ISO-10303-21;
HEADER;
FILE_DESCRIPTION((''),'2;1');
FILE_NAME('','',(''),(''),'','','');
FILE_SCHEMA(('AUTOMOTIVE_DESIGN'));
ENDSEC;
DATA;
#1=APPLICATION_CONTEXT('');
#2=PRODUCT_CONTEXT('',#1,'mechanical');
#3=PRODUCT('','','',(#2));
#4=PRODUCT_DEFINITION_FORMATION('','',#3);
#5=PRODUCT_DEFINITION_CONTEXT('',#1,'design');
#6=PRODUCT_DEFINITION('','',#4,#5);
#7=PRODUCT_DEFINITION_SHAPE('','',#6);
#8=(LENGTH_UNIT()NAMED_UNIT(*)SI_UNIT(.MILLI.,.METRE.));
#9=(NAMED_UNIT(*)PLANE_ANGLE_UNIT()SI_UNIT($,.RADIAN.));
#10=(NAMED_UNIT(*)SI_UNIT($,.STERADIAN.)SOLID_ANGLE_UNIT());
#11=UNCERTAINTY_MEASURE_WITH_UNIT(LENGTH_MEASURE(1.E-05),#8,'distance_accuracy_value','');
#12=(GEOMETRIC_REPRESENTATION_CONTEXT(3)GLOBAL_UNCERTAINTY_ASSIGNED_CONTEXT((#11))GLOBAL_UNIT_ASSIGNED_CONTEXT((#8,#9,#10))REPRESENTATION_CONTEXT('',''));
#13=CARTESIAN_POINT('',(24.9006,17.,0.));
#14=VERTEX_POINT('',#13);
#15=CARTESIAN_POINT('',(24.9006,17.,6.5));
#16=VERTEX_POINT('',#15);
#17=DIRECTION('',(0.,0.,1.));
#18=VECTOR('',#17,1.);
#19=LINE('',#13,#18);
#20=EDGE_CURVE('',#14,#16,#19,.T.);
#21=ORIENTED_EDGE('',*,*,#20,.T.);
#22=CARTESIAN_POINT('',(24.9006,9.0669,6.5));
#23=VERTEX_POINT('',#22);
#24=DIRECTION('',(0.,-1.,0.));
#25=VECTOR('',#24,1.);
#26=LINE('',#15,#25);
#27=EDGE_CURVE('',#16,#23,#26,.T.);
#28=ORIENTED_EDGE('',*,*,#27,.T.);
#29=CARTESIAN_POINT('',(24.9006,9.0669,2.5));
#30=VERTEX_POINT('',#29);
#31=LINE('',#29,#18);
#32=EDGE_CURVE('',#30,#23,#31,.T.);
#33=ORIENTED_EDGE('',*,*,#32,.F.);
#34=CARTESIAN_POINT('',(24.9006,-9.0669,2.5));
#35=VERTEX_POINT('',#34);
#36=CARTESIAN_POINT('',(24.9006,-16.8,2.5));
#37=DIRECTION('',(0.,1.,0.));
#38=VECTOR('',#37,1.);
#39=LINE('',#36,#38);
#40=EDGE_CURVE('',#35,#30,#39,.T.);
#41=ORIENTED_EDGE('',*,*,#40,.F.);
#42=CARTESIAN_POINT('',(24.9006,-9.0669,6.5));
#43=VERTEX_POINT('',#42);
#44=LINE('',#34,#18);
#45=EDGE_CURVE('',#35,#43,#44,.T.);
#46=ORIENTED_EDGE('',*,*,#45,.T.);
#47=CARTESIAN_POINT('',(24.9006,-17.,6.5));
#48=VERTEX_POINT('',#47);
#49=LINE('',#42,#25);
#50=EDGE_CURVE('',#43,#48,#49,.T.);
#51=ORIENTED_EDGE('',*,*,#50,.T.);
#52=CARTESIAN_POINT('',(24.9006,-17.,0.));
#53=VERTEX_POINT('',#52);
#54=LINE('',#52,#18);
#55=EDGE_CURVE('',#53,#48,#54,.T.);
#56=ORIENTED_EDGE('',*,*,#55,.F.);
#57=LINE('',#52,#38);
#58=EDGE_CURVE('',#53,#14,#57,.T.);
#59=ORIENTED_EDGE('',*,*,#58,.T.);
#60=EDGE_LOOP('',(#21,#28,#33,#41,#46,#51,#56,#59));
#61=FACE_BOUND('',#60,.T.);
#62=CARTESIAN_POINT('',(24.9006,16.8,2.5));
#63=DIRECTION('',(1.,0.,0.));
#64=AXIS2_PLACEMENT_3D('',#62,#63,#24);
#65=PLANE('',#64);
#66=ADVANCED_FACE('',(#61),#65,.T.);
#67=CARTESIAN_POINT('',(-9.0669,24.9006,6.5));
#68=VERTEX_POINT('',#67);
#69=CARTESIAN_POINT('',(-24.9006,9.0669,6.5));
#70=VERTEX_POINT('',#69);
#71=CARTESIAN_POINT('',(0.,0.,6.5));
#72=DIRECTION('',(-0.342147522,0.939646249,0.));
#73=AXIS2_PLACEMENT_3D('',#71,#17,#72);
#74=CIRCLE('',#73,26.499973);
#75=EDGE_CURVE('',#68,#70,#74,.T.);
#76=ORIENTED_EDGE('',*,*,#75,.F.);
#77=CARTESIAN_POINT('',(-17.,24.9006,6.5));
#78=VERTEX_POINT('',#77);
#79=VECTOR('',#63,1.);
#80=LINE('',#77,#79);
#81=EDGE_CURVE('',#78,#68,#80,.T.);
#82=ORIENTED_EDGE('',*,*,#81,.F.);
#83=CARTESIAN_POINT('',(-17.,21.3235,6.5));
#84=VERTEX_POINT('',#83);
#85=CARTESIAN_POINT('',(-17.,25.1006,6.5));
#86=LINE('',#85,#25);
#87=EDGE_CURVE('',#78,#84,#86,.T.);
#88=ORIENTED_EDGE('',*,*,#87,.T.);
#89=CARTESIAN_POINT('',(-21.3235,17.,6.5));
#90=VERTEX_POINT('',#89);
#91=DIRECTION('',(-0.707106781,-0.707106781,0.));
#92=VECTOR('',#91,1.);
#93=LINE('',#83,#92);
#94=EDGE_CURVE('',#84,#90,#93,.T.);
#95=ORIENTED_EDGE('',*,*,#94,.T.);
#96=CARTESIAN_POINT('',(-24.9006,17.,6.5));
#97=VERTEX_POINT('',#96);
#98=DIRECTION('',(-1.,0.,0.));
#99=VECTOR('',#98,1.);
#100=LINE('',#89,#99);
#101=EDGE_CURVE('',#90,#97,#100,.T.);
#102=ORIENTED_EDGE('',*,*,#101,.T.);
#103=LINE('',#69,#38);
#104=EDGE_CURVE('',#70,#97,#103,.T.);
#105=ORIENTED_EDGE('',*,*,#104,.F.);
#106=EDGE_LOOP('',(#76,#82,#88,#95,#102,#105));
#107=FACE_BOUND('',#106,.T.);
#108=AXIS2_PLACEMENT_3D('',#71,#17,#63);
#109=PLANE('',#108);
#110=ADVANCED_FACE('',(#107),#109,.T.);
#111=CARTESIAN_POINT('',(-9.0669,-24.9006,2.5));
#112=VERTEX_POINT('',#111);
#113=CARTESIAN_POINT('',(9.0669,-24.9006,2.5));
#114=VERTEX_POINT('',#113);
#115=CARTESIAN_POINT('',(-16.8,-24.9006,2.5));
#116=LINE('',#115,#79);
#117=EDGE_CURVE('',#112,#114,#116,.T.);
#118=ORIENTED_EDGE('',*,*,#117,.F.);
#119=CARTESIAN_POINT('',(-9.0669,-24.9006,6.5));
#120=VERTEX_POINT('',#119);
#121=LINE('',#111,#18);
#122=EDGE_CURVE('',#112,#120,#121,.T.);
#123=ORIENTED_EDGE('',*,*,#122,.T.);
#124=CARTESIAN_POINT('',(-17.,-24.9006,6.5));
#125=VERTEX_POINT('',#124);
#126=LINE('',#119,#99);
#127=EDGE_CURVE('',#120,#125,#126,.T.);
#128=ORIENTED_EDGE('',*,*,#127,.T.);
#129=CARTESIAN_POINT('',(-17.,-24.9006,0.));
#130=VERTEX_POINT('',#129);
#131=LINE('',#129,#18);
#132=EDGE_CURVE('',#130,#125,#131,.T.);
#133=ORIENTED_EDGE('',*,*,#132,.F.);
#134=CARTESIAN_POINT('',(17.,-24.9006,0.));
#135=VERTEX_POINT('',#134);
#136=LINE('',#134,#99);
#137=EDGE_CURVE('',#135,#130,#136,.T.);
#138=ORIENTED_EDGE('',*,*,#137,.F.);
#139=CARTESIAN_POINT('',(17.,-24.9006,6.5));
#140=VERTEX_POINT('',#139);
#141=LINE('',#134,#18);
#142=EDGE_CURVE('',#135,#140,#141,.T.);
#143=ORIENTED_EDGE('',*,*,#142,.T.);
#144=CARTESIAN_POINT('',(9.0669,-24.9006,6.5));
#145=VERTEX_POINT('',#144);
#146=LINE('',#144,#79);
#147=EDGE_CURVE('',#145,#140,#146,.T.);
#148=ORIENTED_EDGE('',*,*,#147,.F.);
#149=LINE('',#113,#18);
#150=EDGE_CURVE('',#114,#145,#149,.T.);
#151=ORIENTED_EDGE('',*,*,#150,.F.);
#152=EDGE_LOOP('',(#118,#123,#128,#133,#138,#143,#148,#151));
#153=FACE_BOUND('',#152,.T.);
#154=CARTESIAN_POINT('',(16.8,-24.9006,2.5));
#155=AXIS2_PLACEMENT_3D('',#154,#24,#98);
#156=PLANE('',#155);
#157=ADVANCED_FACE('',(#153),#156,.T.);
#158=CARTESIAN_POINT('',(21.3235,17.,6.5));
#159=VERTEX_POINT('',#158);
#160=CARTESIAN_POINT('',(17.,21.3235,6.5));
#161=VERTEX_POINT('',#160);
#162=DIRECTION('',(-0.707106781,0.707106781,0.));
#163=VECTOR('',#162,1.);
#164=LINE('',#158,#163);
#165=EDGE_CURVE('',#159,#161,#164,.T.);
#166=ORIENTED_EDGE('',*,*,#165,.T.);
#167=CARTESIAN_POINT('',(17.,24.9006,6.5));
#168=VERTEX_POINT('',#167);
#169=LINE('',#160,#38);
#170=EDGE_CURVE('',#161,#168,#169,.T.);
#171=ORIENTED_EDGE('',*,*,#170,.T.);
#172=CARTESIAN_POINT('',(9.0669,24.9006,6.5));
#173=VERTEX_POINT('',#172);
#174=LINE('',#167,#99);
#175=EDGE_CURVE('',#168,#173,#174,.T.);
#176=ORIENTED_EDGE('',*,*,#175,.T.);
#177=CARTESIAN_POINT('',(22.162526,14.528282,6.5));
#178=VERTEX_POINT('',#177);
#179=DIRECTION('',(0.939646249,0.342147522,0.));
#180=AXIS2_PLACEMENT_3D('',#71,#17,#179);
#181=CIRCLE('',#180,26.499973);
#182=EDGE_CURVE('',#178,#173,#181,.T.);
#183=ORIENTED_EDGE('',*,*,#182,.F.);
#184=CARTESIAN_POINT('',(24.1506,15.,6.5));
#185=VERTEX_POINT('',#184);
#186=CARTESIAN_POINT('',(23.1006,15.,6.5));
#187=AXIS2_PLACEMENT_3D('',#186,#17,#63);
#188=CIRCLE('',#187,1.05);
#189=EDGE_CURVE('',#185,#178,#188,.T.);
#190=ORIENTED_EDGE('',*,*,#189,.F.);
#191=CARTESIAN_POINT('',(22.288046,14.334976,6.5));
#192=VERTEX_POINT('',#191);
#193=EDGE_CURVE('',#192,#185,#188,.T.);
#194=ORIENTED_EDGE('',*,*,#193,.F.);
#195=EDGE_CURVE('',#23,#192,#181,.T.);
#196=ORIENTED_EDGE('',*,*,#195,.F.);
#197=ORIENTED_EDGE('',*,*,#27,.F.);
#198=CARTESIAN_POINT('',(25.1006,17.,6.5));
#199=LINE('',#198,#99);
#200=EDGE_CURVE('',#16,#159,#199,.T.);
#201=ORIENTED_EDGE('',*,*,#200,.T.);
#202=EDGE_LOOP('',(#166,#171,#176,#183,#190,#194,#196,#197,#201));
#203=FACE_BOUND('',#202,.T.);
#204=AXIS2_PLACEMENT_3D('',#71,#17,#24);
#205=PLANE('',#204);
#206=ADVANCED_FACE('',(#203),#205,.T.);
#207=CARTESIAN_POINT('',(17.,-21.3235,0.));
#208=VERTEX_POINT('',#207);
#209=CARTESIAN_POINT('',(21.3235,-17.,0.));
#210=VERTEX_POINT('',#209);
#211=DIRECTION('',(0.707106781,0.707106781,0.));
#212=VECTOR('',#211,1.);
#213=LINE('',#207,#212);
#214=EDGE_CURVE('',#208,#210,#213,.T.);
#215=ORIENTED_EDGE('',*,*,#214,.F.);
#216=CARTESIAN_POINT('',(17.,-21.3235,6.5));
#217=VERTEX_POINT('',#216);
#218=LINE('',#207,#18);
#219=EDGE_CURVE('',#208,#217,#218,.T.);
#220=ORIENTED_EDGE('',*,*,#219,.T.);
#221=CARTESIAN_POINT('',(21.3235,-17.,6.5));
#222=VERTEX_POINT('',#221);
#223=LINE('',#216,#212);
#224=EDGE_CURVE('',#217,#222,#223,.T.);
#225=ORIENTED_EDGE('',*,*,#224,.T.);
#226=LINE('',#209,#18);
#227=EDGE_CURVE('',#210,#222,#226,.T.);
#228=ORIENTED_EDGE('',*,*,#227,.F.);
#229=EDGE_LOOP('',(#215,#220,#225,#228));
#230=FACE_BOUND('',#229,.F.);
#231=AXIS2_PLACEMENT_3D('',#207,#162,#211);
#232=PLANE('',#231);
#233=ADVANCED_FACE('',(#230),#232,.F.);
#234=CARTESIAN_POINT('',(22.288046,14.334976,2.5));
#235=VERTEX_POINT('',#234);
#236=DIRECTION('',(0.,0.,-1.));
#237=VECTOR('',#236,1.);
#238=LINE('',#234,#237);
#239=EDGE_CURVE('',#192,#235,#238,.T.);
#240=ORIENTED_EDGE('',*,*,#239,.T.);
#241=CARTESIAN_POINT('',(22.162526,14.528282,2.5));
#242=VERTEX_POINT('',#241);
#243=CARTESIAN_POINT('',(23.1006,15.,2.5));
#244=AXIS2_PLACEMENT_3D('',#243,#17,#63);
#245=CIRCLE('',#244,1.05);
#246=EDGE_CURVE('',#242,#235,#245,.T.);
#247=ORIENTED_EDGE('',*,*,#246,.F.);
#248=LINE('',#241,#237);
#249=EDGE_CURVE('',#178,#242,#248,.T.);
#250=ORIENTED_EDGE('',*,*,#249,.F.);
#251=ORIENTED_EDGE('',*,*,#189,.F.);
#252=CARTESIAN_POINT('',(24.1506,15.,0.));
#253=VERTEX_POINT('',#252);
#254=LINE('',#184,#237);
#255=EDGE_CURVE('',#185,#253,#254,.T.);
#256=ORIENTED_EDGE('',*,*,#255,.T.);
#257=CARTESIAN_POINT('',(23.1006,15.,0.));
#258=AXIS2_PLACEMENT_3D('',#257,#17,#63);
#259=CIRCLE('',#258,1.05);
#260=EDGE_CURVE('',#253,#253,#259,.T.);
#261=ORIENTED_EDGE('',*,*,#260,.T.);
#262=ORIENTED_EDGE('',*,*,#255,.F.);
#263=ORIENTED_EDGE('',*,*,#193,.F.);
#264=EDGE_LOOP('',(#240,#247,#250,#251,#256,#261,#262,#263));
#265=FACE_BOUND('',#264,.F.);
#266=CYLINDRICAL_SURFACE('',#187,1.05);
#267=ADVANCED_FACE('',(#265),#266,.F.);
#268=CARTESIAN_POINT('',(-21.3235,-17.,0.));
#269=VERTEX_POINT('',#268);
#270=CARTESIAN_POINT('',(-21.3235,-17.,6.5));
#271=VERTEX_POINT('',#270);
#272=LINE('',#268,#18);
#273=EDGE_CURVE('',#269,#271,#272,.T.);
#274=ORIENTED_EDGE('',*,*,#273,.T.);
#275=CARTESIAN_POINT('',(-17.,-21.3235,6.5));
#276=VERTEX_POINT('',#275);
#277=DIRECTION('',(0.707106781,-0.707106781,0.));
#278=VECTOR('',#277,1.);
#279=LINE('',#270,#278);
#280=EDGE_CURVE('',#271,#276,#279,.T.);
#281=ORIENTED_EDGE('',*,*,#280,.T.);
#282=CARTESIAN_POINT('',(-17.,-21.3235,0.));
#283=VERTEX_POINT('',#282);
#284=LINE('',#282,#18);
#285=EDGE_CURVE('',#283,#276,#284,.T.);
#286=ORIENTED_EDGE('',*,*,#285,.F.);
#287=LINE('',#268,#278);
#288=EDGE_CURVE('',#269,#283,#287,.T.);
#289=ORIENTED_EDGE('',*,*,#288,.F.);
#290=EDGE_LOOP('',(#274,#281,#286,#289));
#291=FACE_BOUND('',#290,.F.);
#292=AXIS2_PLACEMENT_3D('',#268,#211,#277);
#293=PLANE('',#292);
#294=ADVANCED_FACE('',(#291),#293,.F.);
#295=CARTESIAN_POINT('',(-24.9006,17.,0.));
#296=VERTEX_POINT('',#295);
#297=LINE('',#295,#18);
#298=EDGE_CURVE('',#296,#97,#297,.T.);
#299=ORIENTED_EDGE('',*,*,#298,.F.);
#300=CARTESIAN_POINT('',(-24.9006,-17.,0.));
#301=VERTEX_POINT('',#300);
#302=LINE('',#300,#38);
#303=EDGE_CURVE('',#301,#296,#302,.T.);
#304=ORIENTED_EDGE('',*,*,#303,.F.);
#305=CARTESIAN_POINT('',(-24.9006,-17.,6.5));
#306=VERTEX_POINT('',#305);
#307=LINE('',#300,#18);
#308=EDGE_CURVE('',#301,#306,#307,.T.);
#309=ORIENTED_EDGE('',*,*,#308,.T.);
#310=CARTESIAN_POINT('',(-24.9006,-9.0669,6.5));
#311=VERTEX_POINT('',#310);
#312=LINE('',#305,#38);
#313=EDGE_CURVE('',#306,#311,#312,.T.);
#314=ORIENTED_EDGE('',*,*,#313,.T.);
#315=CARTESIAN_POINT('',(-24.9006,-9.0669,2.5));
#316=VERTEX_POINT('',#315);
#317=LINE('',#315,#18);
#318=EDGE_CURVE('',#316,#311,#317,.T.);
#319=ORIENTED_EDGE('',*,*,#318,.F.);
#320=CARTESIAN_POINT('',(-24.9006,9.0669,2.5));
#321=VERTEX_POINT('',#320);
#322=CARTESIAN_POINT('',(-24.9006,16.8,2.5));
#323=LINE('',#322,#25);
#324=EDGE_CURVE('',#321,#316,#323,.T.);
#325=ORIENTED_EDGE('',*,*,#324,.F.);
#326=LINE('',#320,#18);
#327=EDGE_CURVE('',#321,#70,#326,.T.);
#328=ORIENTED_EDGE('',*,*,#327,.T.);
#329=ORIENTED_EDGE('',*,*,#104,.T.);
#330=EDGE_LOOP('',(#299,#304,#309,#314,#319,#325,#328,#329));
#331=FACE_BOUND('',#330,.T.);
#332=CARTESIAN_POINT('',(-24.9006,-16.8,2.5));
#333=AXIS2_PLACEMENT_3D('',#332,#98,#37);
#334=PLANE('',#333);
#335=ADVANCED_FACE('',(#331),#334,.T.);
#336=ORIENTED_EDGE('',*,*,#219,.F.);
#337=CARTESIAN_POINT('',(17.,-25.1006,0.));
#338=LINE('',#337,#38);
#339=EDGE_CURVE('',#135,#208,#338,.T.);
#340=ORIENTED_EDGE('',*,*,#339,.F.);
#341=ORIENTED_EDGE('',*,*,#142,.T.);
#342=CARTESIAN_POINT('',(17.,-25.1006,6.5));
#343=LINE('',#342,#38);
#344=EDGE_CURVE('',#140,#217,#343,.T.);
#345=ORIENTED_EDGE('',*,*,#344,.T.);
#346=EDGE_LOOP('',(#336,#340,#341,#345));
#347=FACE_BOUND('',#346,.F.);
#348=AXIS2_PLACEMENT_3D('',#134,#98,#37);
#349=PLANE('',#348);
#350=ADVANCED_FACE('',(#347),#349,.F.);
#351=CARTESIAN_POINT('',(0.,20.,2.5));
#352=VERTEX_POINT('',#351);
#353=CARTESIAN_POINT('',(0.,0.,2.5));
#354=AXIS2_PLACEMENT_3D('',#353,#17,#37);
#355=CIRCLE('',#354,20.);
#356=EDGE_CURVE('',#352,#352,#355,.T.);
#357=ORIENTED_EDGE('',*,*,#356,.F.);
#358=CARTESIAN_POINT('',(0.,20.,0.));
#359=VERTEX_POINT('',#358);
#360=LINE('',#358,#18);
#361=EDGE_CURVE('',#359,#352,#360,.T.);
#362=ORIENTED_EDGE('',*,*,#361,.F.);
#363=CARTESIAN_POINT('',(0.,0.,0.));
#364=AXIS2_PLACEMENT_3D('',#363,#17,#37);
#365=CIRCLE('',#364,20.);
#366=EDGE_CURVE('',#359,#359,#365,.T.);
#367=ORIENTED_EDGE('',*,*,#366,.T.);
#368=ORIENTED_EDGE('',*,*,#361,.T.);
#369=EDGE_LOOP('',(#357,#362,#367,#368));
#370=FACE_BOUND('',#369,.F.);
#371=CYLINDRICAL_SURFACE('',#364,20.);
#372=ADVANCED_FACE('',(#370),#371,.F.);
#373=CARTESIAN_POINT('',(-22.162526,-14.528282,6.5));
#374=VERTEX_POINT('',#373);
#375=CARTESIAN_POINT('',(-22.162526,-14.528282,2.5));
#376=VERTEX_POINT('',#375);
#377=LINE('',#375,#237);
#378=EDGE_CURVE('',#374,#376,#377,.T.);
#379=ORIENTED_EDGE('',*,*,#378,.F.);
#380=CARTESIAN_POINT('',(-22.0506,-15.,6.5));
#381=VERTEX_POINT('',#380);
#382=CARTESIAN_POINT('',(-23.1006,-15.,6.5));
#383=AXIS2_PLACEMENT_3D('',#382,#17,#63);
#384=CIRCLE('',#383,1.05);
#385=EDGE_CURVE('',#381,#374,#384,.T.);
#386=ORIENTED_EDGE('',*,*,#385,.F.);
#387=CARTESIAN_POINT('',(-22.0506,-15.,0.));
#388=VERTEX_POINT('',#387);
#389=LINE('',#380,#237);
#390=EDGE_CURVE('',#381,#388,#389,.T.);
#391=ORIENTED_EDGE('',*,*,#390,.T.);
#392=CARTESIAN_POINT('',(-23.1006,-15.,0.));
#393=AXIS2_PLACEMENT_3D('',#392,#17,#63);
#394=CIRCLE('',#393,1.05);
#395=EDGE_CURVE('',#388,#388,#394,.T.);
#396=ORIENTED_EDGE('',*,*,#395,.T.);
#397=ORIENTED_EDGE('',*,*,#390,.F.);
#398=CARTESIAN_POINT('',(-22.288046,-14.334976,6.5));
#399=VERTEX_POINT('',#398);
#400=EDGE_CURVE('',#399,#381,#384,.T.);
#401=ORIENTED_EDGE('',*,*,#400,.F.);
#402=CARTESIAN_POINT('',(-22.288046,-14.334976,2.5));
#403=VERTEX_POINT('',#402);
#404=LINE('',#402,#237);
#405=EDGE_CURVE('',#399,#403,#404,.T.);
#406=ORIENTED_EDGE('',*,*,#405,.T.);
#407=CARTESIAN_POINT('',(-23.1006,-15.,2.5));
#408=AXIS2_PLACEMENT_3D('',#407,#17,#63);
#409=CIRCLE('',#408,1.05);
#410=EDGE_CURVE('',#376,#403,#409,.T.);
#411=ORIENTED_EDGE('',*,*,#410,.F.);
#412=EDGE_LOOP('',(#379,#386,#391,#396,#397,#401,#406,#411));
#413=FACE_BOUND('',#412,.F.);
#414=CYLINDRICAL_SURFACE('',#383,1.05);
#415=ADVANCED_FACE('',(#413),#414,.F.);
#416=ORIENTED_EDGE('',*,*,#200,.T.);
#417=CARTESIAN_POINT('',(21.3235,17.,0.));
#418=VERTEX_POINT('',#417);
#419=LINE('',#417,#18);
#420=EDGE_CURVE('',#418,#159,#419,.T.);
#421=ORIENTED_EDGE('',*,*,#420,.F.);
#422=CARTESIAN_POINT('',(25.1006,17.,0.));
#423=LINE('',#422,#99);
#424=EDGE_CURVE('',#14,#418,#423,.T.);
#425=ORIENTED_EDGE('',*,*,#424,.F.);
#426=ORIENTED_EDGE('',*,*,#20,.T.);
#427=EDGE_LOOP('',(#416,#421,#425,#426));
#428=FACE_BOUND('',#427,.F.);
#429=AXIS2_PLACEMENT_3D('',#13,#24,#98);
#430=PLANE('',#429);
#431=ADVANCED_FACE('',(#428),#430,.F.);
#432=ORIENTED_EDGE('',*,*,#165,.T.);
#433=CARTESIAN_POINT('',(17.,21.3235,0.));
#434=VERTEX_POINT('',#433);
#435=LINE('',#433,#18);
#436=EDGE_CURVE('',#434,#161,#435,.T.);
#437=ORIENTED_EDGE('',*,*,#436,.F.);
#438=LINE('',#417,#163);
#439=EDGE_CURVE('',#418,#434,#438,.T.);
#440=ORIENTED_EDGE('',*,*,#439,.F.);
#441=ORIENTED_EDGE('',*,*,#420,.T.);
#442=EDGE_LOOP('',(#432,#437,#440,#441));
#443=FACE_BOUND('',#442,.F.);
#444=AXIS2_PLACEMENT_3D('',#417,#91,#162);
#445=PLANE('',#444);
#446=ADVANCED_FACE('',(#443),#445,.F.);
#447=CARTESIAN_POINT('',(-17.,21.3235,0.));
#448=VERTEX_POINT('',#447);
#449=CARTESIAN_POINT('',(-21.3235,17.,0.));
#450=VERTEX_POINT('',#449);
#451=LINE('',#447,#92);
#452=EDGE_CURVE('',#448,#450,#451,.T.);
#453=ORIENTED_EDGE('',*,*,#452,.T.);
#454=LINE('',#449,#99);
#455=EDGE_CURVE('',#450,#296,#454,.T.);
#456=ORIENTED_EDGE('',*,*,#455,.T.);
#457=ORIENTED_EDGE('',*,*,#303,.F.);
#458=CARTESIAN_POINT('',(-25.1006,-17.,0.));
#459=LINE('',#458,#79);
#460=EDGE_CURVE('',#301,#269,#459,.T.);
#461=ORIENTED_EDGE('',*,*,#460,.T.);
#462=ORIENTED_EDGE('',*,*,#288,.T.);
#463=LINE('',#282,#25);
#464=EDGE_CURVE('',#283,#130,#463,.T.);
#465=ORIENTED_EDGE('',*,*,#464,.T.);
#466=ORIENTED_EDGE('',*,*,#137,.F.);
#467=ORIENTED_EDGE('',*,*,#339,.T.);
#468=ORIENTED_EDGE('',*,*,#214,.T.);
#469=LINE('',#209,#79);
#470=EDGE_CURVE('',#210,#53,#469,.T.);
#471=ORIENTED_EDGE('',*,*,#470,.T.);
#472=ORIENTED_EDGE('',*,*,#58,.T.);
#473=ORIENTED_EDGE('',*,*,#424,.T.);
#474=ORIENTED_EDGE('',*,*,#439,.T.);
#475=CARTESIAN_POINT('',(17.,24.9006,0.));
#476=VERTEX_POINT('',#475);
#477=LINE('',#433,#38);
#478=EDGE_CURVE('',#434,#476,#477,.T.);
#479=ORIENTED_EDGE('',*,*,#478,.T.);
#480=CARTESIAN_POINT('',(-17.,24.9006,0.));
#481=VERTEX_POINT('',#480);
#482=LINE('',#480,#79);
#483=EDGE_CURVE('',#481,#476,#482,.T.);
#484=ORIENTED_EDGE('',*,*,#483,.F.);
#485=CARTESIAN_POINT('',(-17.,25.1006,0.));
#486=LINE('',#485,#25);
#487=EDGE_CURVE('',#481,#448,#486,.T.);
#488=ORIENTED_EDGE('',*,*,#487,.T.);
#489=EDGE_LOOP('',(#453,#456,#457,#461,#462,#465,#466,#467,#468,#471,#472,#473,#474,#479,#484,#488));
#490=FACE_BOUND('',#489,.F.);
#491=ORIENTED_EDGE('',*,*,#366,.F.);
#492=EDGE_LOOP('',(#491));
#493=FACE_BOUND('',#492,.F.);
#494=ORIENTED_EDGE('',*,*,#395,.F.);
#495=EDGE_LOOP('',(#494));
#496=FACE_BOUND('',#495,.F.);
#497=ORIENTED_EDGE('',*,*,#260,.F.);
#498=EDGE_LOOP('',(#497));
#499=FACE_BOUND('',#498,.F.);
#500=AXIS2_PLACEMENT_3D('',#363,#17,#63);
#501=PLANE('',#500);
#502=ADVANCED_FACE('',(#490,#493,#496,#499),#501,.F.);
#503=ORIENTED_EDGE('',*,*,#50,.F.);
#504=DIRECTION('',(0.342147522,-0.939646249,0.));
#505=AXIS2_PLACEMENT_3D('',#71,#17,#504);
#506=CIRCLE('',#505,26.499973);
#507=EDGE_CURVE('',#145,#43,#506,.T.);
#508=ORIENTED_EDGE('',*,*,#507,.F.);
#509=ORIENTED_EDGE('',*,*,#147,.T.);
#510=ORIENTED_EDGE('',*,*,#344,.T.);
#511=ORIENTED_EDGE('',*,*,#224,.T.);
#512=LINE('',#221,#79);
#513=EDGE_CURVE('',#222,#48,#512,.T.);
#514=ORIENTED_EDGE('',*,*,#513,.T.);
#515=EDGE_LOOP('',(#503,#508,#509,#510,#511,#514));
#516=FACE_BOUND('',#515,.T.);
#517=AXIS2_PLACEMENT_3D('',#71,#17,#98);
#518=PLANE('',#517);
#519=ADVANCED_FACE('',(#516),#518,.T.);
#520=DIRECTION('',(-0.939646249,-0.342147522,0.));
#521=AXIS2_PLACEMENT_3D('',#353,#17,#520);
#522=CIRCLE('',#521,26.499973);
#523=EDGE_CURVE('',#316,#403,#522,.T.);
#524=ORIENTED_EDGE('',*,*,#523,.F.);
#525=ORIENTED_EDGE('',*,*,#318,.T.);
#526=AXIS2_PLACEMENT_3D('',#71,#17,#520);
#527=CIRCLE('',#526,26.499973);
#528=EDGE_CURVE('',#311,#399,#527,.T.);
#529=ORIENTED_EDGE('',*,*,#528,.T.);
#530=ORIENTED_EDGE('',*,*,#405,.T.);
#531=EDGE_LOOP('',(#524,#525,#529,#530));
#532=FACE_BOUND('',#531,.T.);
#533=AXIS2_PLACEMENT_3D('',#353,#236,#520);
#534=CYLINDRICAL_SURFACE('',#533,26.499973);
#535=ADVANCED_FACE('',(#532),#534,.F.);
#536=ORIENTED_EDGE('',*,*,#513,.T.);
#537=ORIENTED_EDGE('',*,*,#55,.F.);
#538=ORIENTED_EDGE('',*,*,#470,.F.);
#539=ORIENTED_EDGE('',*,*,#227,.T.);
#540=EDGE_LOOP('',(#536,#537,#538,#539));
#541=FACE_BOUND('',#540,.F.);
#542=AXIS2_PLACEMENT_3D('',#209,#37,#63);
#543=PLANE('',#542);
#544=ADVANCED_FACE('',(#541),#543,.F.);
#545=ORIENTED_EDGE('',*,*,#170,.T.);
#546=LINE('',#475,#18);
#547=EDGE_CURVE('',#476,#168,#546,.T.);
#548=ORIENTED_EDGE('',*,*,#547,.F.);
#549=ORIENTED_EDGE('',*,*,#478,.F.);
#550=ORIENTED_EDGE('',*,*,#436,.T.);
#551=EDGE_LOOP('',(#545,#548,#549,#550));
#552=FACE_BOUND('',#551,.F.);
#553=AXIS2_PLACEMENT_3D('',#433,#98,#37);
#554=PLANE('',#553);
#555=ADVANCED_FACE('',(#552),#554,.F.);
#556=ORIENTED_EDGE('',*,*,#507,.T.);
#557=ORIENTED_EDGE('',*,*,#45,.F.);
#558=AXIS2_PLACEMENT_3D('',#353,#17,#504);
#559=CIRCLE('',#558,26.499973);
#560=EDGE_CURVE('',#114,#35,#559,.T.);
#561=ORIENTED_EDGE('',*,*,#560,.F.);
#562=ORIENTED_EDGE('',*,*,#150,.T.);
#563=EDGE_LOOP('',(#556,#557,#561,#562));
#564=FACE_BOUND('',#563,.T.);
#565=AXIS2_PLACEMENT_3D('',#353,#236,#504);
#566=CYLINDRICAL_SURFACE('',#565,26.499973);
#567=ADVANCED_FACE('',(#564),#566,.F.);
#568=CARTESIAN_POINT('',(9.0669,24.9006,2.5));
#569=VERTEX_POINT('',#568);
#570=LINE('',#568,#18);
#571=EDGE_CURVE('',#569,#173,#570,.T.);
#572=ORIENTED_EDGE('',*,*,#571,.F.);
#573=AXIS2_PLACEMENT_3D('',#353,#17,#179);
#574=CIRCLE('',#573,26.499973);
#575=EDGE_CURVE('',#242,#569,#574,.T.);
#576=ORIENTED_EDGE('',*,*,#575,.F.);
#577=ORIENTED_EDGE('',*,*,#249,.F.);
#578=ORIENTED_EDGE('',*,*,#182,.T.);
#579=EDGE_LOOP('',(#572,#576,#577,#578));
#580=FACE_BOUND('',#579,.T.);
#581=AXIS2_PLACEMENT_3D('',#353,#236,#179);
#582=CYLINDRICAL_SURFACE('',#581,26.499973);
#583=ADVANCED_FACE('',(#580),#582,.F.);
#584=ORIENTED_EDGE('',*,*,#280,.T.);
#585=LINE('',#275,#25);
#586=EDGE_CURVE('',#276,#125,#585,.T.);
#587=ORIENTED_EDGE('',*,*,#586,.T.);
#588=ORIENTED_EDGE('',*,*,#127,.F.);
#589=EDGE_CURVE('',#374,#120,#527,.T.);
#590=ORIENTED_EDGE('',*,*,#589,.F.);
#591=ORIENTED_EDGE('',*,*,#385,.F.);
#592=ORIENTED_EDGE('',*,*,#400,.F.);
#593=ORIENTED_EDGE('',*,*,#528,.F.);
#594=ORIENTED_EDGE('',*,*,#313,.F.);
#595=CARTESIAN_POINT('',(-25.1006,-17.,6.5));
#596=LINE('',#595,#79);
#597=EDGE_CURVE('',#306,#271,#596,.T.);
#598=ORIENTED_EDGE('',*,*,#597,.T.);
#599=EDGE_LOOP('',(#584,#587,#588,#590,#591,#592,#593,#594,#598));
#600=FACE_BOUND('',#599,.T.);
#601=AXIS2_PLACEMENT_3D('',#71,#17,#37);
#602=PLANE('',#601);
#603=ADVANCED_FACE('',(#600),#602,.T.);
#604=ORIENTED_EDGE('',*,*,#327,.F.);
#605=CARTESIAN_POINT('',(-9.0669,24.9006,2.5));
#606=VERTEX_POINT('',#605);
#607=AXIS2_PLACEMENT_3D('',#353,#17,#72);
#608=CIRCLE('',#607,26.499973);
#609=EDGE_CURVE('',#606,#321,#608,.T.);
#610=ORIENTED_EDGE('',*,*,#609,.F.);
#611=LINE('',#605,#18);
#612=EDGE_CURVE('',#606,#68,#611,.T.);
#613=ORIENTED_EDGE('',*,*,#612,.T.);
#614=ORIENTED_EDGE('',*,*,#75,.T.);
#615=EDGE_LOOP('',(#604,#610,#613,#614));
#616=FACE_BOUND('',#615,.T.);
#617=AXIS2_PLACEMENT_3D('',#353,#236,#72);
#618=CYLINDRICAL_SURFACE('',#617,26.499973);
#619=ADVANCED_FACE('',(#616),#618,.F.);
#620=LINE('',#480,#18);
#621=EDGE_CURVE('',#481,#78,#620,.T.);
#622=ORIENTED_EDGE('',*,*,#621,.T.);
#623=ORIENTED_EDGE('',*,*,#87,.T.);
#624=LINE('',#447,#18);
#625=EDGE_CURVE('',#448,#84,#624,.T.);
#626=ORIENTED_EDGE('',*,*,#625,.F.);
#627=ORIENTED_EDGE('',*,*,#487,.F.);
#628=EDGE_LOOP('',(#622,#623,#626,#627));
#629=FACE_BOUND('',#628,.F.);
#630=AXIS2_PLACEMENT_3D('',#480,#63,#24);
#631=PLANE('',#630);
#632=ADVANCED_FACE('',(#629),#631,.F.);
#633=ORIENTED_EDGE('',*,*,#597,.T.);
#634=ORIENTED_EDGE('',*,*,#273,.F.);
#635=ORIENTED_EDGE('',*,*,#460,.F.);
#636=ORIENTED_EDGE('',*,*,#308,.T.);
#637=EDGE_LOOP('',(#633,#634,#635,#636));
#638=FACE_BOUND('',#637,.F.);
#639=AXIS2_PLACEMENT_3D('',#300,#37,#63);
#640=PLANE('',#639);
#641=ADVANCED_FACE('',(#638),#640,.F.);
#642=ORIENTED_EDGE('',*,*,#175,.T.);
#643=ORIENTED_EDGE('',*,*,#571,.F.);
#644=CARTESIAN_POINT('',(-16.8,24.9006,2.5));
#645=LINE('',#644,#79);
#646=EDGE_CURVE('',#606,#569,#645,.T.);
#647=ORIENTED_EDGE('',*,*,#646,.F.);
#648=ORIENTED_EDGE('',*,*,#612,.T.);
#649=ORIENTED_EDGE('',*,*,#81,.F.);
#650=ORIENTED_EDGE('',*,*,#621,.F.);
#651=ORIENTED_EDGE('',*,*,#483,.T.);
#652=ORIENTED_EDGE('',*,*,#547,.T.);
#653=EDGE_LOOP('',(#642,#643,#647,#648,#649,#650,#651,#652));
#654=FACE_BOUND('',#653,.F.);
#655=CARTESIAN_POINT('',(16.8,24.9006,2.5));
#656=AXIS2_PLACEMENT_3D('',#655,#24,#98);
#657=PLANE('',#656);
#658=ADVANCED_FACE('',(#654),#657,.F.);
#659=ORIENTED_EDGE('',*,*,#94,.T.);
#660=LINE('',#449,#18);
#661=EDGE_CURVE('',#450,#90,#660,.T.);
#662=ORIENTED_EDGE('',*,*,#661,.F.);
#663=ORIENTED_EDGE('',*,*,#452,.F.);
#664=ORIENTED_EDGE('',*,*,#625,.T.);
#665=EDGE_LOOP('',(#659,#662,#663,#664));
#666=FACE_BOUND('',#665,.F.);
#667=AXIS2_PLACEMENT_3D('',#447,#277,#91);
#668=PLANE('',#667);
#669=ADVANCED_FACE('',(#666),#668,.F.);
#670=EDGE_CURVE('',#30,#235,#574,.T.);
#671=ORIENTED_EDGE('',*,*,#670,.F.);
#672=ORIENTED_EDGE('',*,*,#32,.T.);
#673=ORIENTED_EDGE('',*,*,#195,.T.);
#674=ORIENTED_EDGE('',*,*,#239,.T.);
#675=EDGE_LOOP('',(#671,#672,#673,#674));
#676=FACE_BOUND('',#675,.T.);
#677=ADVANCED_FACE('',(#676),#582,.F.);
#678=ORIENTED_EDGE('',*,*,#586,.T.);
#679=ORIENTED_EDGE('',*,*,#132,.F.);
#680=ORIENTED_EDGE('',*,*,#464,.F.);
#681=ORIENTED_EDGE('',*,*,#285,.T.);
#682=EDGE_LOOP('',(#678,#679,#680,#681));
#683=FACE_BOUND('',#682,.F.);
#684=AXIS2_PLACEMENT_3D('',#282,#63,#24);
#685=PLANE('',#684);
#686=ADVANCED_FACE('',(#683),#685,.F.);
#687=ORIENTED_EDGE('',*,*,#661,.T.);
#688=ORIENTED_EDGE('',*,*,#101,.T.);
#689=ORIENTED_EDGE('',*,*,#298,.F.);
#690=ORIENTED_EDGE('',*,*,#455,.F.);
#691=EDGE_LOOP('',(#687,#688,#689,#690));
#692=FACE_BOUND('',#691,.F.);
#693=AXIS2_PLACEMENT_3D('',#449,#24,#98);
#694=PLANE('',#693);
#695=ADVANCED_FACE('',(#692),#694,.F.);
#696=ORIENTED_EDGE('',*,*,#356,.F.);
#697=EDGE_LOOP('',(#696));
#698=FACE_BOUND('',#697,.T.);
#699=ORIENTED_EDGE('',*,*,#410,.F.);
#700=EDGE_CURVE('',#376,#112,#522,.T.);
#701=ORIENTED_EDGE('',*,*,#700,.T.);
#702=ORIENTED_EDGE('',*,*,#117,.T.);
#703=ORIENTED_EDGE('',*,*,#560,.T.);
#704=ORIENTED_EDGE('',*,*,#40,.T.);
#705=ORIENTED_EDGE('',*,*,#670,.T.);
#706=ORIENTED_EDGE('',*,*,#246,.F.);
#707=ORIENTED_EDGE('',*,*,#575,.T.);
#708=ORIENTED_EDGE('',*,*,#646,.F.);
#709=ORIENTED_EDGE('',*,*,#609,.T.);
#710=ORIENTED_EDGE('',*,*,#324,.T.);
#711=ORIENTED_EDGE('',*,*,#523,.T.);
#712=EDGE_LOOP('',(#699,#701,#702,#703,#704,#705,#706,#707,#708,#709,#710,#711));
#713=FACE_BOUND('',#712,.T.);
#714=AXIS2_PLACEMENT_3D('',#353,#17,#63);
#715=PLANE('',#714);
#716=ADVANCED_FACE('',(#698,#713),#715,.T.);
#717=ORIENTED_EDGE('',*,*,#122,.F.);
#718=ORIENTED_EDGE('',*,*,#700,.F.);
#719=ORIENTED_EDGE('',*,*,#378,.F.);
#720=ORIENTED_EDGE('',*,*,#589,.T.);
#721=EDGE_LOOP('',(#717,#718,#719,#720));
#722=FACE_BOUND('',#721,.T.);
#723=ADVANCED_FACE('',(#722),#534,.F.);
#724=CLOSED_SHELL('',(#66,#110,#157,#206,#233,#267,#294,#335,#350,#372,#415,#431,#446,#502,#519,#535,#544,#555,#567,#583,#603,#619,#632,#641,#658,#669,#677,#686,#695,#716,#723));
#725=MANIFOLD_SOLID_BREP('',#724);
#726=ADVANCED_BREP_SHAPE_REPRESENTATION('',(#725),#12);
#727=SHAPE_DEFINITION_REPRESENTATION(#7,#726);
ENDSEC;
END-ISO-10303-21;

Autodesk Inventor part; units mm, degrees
ref_plane "YZ Plane" through (0, 0, 0) normal (1, 0, 0) x (0, 1, 0)
ref_plane "XZ Plane" through (0, 0, 0) normal (0, 1, 0) x (-1, 0, 0)
ref_plane "XY Plane" through (0, 0, 0) normal (0, 0, 1) x (1, 0, 0)
sketch "Sketch1" plane through (0, 0, 0) normal (0, 0, 1) x (1, 0, 0)
  line L0 (-34.8609, 0) -> (34.8609, 0) construction
  line L1 (0, -34.8609) -> (0, 34.8609) construction
  line L2 (0, 0) -> (11.6542, 11.6542) construction
  line L3 (0, 0) -> (16.4815, 0) construction
  line L4 (0, 24.9006) -> (16.8, 24.9006)
  line L5 (16.8, 24.9006) -> (16.8, 21.2406)
  line L6 (16.8, 21.2406) -> (19.0203, 19.0203)
  line L7 (24.9006, 0) -> (24.9006, 16.8)
  line L8 (24.9006, 16.8) -> (21.2406, 16.8)
  line L9 (21.2406, 16.8) -> (19.0203, 19.0203)
  line L10 (0, 0) -> (-11.6542, 11.6542) construction
  line L11 (0, 0) -> (-16.4815, 0) construction
  line L12 (0, 24.9006) -> (-16.8, 24.9006)
  line L13 (-16.8, 24.9006) -> (-16.8, 21.2406)
  line L14 (-16.8, 21.2406) -> (-19.0203, 19.0203)
  line L15 (-24.9006, 0) -> (-24.9006, 16.8)
  line L16 (-24.9006, 16.8) -> (-21.2406, 16.8)
  line L17 (-21.2406, 16.8) -> (-19.0203, 19.0203)
  line L18 (0, 0) -> (11.6542, -11.6542) construction
  line L19 (0, -24.9006) -> (16.8, -24.9006)
  line L20 (16.8, -24.9006) -> (16.8, -21.2406)
  line L21 (16.8, -21.2406) -> (19.0203, -19.0203)
  line L22 (24.9006, 0) -> (24.9006, -16.8)
  line L23 (24.9006, -16.8) -> (21.2406, -16.8)
  line L24 (21.2406, -16.8) -> (19.0203, -19.0203)
  line L25 (0, 0) -> (-11.6542, -11.6542) construction
  line L26 (0, -24.9006) -> (-16.8, -24.9006)
  line L27 (-16.8, -24.9006) -> (-16.8, -21.2406)
  line L28 (-16.8, -21.2406) -> (-19.0203, -19.0203)
  line L29 (-24.9006, 0) -> (-24.9006, -16.8)
  line L30 (-24.9006, -16.8) -> (-21.2406, -16.8)
  line L31 (-21.2406, -16.8) -> (-19.0203, -19.0203)
  dimension "d0" = 45
  dimension "d1" = 3.14
  dimension "d2" = 3.66
  dimension "d3" = 16.8
extrude "Extrusion1" add sketch "Sketch1" along normal blind 2.5
hole "Hole1" at (0, 0, 0) direction (0, 0, 1) diameter 40 end through all
sketch "Sketch5" plane through (0, 0, 2.5) normal (0, 0, 1) x (1, 0, 0)
  circle A0 centre (-22.1796, -5.0624) radius 1.25 construction
  circle A1 centre (-17.7867, 14.1844) radius 1.25 construction
  circle A2 centre (0, 22.75) radius 1.25 construction
  arc A3 (5.9445, 23.5204) -> (2.0147, 24.1761) centre (3.9503, 23.6727) ccw construction
  line L0 (2.0147, 24.1761) -> (2, 24) construction
  arc A4 (2, 24) -> (1.9973, 24.1039) centre (0, 24) ccw construction
  arc A5 (1.9973, 24.1039) -> (1.9775, 24.0019) centre (3.9503, 23.6727) ccw construction
  line L1 (1.9775, 24.0019) -> (1.9921, 24.178) construction
  arc A6 (1.9921, 24.178) -> (-1.9921, 24.178) centre (0, 24) ccw construction
  line L2 (-1.9921, 24.178) -> (-1.9775, 24.0019) construction
  arc A7 (-1.9775, 24.0019) -> (-1.9973, 24.1039) centre (-3.9503, 23.6727) ccw construction
  arc A8 (-1.9973, 24.1039) -> (-2, 24) centre (0, 24) ccw construction
  line L3 (-2, 24) -> (-2.0147, 24.1761) construction
  arc A9 (-2.0147, 24.1761) -> (-5.9445, 23.5204) centre (-3.9503, 23.6727) ccw construction
  line L4 (-5.9445, 23.5204) -> (-5.9012, 23.349) construction
  arc A10 (-5.9012, 23.349) -> (-5.9374, 23.4464) centre (-7.7928, 22.6996) ccw construction
  arc A11 (-5.9374, 23.4464) -> (-5.923, 23.3435) centre (-3.9503, 23.6727) ccw construction
  line L5 (-5.923, 23.3435) -> (-5.9665, 23.5148) construction
  arc A12 (-5.9665, 23.5148) -> (-9.7347, 22.2212) centre (-7.7928, 22.6996) ccw construction
  line L6 (-9.7347, 22.2212) -> (-9.6638, 22.0593) construction
  arc A13 (-9.6638, 22.0593) -> (-9.7156, 22.1493) centre (-11.4227, 21.1074) ccw construction
  arc A14 (-9.7156, 22.1493) -> (-9.6844, 22.0502) centre (-7.7928, 22.6996) ccw construction
  line L7 (-9.6844, 22.0502) -> (-9.7555, 22.212) construction
  arc A15 (-9.7555, 22.212) -> (-13.2594, 20.3158) centre (-11.4227, 21.1074) ccw construction
  line L8 (-13.2594, 20.3158) -> (-13.1628, 20.1678) construction
  arc A16 (-13.1628, 20.1678) -> (-13.2287, 20.2481) centre (-14.7411, 18.9394) ccw construction
  arc A17 (-13.2287, 20.2481) -> (-13.1817, 20.1555) centre (-11.4227, 21.1074) ccw construction
  line L9 (-13.1817, 20.1555) -> (-13.2784, 20.3034) construction
  arc A18 (-13.2784, 20.3034) -> (-16.4225, 17.8563) centre (-14.7411, 18.9394) ccw construction
  line L10 (-16.4225, 17.8563) -> (-16.3028, 17.7262) construction
  arc A19 (-16.3028, 17.7262) -> (-16.381, 17.7946) centre (-17.6574, 16.2548) ccw construction
  arc A20 (-16.381, 17.7946) -> (-16.3194, 17.7109) centre (-14.7411, 18.9394) ccw construction
  line L11 (-16.3194, 17.7109) -> (-16.4392, 17.8409) construction
  arc A21 (-16.4392, 17.8409) -> (-19.1375, 14.9097) centre (-17.6574, 16.2548) ccw construction
  line L12 (-19.1375, 14.9097) -> (-18.9981, 14.8011) construction
  arc A22 (-18.9981, 14.8011) -> (-19.0865, 14.8556) centre (-20.092, 13.1268) ccw construction
  arc A23 (-19.0865, 14.8556) -> (-19.0119, 14.7833) centre (-17.6574, 16.2548) ccw construction
  line L13 (-19.0119, 14.7833) -> (-19.1515, 14.8918) construction
  arc A24 (-19.1515, 14.8918) -> (-21.3306, 11.5564) centre (-20.092, 13.1268) ccw construction
  line L14 (-21.3306, 11.5564) -> (-21.1752, 11.4722) construction
  arc A25 (-21.1752, 11.4722) -> (-21.2714, 11.5115) centre (-21.9786, 9.6407) ccw construction
  arc A26 (-21.2714, 11.5115) -> (-21.1859, 11.4524) centre (-20.092, 13.1268) ccw construction
  line L15 (-21.1859, 11.4524) -> (-21.3414, 11.5365) construction
  arc A27 (-21.3414, 11.5365) -> (-22.9418, 7.8879) centre (-21.9786, 9.6407) ccw construction
  line L16 (-22.9418, 7.8879) -> (-22.7746, 7.8305) construction
  arc A28 (-22.7746, 7.8305) -> (-22.876, 7.8533) centre (-23.2656, 5.8917) ccw construction
  arc A29 (-22.876, 7.8533) -> (-22.782, 7.8091) centre (-21.9786, 9.6407) ccw construction
  line L17 (-22.782, 7.8091) -> (-22.9492, 7.8665) construction
  arc A30 (-22.9492, 7.8665) -> (-23.9272, 4.0042) centre (-23.2656, 5.8917) ccw construction
  line L18 (-23.9272, 4.0042) -> (-23.7529, 3.9751) construction
  arc A31 (-23.7529, 3.9751) -> (-23.8566, 3.981) centre (-23.918, 1.9819) ccw construction
  arc A32 (-23.8566, 3.981) -> (-23.7566, 3.9529) centre (-23.2656, 5.8917) ccw construction
  line L19 (-23.7566, 3.9529) -> (-23.9309, 3.9819) construction
  arc A33 (-23.9309, 3.9819) -> (-24.2599, 0.0113) centre (-23.918, 1.9819) ccw construction
  line L20 (-24.2599, 0.0113) -> (-24.0832, 0.0113) construction
  arc A34 (-24.0832, 0.0113) -> (-24.1865, 0) centre (-23.918, -1.9819) ccw construction
  arc A35 (-24.1865, 0) -> (-24.0832, -0.0113) centre (-23.918, 1.9819) ccw construction
  line L21 (-24.0832, -0.0113) -> (-24.2599, -0.0113) construction
  arc A36 (-24.2599, -0.0113) -> (-23.9309, -3.9819) centre (-23.918, -1.9819) ccw construction
  line L22 (-23.9309, -3.9819) -> (-23.7566, -3.9529) construction
  arc A37 (-23.7566, -3.9529) -> (-23.8566, -3.981) centre (-23.2656, -5.8917) ccw construction
  arc A38 (-23.8566, -3.981) -> (-23.7529, -3.9751) centre (-23.918, -1.9819) ccw construction
  line L23 (-23.7529, -3.9751) -> (-23.9272, -4.0042) construction
  arc A39 (-23.9272, -4.0042) -> (-22.9492, -7.8665) centre (-23.2656, -5.8917) ccw construction
  line L24 (-22.9492, -7.8665) -> (-22.782, -7.8091) construction
  arc A40 (-22.782, -7.8091) -> (-22.876, -7.8533) centre (-21.9786, -9.6407) ccw construction
  arc A41 (-22.876, -7.8533) -> (-22.7746, -7.8305) centre (-23.2656, -5.8917) ccw construction
  line L25 (-22.7746, -7.8305) -> (-22.9418, -7.8879) construction
  arc A42 (-22.9418, -7.8879) -> (-21.3414, -11.5365) centre (-21.9786, -9.6407) ccw construction
  line L26 (-21.3414, -11.5365) -> (-21.1859, -11.4524) construction
  arc A43 (-21.1859, -11.4524) -> (-21.2714, -11.5115) centre (-20.092, -13.1268) ccw construction
  arc A44 (-21.2714, -11.5115) -> (-21.1752, -11.4722) centre (-21.9786, -9.6407) ccw construction
  line L27 (-21.1752, -11.4722) -> (-21.3306, -11.5564) construction
  arc A45 (-21.3306, -11.5564) -> (-19.1515, -14.8918) centre (-20.092, -13.1268) ccw construction
  line L28 (-19.1515, -14.8918) -> (-19.0119, -14.7833) construction
  arc A46 (-19.0119, -14.7833) -> (-19.0865, -14.8556) centre (-17.6574, -16.2548) ccw construction
  arc A47 (-19.0865, -14.8556) -> (-18.9981, -14.8011) centre (-20.092, -13.1268) ccw construction
  line L29 (-18.9981, -14.8011) -> (-19.1375, -14.9097) construction
  arc A48 (-19.1375, -14.9097) -> (-16.4392, -17.8409) centre (-17.6574, -16.2548) ccw construction
  line L30 (-16.4392, -17.8409) -> (-16.3194, -17.7109) construction
  arc A49 (-16.3194, -17.7109) -> (-16.381, -17.7946) centre (-14.7411, -18.9394) ccw construction
  arc A50 (-16.381, -17.7946) -> (-16.3028, -17.7262) centre (-17.6574, -16.2548) ccw construction
  line L31 (-16.3028, -17.7262) -> (-16.4225, -17.8563) construction
  arc A51 (-16.4225, -17.8563) -> (-13.2784, -20.3034) centre (-14.7411, -18.9394) ccw construction
  line L32 (-13.2784, -20.3034) -> (-13.1817, -20.1555) construction
  arc A52 (-13.1817, -20.1555) -> (-13.2287, -20.2481) centre (-11.4227, -21.1074) ccw construction
  arc A53 (-13.2287, -20.2481) -> (-13.1628, -20.1678) centre (-14.7411, -18.9394) ccw construction
  line L33 (-13.1628, -20.1678) -> (-13.2594, -20.3158) construction
  arc A54 (-13.2594, -20.3158) -> (-9.7555, -22.212) centre (-11.4227, -21.1074) ccw construction
  line L34 (-9.7555, -22.212) -> (-9.6844, -22.0502) construction
  arc A55 (-9.6844, -22.0502) -> (-9.7156, -22.1493) centre (-7.7928, -22.6996) ccw construction
  arc A56 (-9.7156, -22.1493) -> (-9.6638, -22.0593) centre (-11.4227, -21.1074) ccw construction
  line L35 (-9.6638, -22.0593) -> (-9.7347, -22.2212) construction
  arc A57 (-9.7347, -22.2212) -> (-5.9665, -23.5148) centre (-7.7928, -22.6996) ccw construction
  line L36 (-5.9665, -23.5148) -> (-5.923, -23.3435) construction
  arc A58 (-5.923, -23.3435) -> (-5.9374, -23.4464) centre (-3.9503, -23.6727) ccw construction
  arc A59 (-5.9374, -23.4464) -> (-5.9012, -23.349) centre (-7.7928, -22.6996) ccw construction
  line L37 (-5.9012, -23.349) -> (-5.9445, -23.5204) construction
  arc A60 (-5.9445, -23.5204) -> (-2.0147, -24.1761) centre (-3.9503, -23.6727) ccw construction
  line L38 (-2.0147, -24.1761) -> (-2, -24) construction
  arc A61 (-2, -24) -> (-1.9973, -24.1039) centre (0, -24) ccw construction
  arc A62 (-1.9973, -24.1039) -> (-1.9775, -24.0019) centre (-3.9503, -23.6727) ccw construction
  line L39 (-1.9775, -24.0019) -> (-1.9921, -24.178) construction
  arc A63 (-1.9921, -24.178) -> (1.9921, -24.178) centre (0, -24) ccw construction
  line L40 (1.9921, -24.178) -> (1.9775, -24.0019) construction
  arc A64 (1.9775, -24.0019) -> (1.9973, -24.1039) centre (3.9503, -23.6727) ccw construction
  arc A65 (1.9973, -24.1039) -> (2, -24) centre (0, -24) ccw construction
  line L41 (2, -24) -> (2.0147, -24.1761) construction
  arc A66 (2.0147, -24.1761) -> (5.9445, -23.5204) centre (3.9503, -23.6727) ccw construction
  line L42 (5.9445, -23.5204) -> (5.9012, -23.349) construction
  arc A67 (5.9012, -23.349) -> (5.9374, -23.4464) centre (7.7928, -22.6996) ccw construction
  arc A68 (5.9374, -23.4464) -> (5.923, -23.3435) centre (3.9503, -23.6727) ccw construction
  line L43 (5.923, -23.3435) -> (5.9665, -23.5148) construction
  arc A69 (5.9665, -23.5148) -> (9.7347, -22.2212) centre (7.7928, -22.6996) ccw construction
  line L44 (9.7347, -22.2212) -> (9.6638, -22.0593) construction
  arc A70 (9.6638, -22.0593) -> (9.7156, -22.1493) centre (11.4227, -21.1074) ccw construction
  arc A71 (9.7156, -22.1493) -> (9.6844, -22.0502) centre (7.7928, -22.6996) ccw construction
  line L45 (9.6844, -22.0502) -> (9.7555, -22.212) construction
  arc A72 (9.7555, -22.212) -> (13.2594, -20.3158) centre (11.4227, -21.1074) ccw construction
  line L46 (13.2594, -20.3158) -> (13.1628, -20.1678) construction
  arc A73 (13.1628, -20.1678) -> (13.2287, -20.2481) centre (14.7411, -18.9394) ccw construction
  arc A74 (13.2287, -20.2481) -> (13.1817, -20.1555) centre (11.4227, -21.1074) ccw construction
  line L47 (13.1817, -20.1555) -> (13.2784, -20.3034) construction
  arc A75 (13.2784, -20.3034) -> (16.4225, -17.8563) centre (14.7411, -18.9394) ccw construction
  line L48 (16.4225, -17.8563) -> (16.3028, -17.7262) construction
  arc A76 (16.3028, -17.7262) -> (16.381, -17.7946) centre (17.6574, -16.2548) ccw construction
  arc A77 (16.381, -17.7946) -> (16.3194, -17.7109) centre (14.7411, -18.9394) ccw construction
  line L49 (16.3194, -17.7109) -> (16.4392, -17.8409) construction
  arc A78 (16.4392, -17.8409) -> (19.1375, -14.9097) centre (17.6574, -16.2548) ccw construction
  line L50 (19.1375, -14.9097) -> (18.9981, -14.8011) construction
  arc A79 (18.9981, -14.8011) -> (19.0865, -14.8556) centre (20.092, -13.1268) ccw construction
  arc A80 (19.0865, -14.8556) -> (19.0119, -14.7833) centre (17.6574, -16.2548) ccw construction
  line L51 (19.0119, -14.7833) -> (19.1515, -14.8918) construction
  arc A81 (19.1515, -14.8918) -> (21.3306, -11.5564) centre (20.092, -13.1268) ccw construction
  line L52 (21.3306, -11.5564) -> (21.1752, -11.4722) construction
  arc A82 (21.1752, -11.4722) -> (21.2714, -11.5115) centre (21.9786, -9.6407) ccw construction
  arc A83 (21.2714, -11.5115) -> (21.1859, -11.4524) centre (20.092, -13.1268) ccw construction
  line L53 (21.1859, -11.4524) -> (21.3414, -11.5365) construction
  arc A84 (21.3414, -11.5365) -> (22.9418, -7.8879) centre (21.9786, -9.6407) ccw construction
  line L54 (22.9418, -7.8879) -> (22.7746, -7.8305) construction
  arc A85 (22.7746, -7.8305) -> (22.876, -7.8533) centre (23.2656, -5.8917) ccw construction
  arc A86 (22.876, -7.8533) -> (22.782, -7.8091) centre (21.9786, -9.6407) ccw construction
  line L55 (22.782, -7.8091) -> (22.9492, -7.8665) construction
  arc A87 (22.9492, -7.8665) -> (23.9272, -4.0042) centre (23.2656, -5.8917) ccw construction
  line L56 (23.9272, -4.0042) -> (23.7529, -3.9751) construction
  arc A88 (23.7529, -3.9751) -> (23.8566, -3.981) centre (23.918, -1.9819) ccw construction
  arc A89 (23.8566, -3.981) -> (23.7566, -3.9529) centre (23.2656, -5.8917) ccw construction
  line L57 (23.7566, -3.9529) -> (23.9309, -3.9819) construction
  arc A90 (23.9309, -3.9819) -> (24.2599, -0.0113) centre (23.918, -1.9819) ccw construction
  line L58 (24.2599, -0.0113) -> (24.0832, -0.0113) construction
  arc A91 (24.0832, -0.0113) -> (24.1865, 0) centre (23.918, 1.9819) ccw construction
  arc A92 (24.1865, 0) -> (24.0832, 0.0113) centre (23.918, -1.9819) ccw construction
  line L59 (24.0832, 0.0113) -> (24.2599, 0.0113) construction
  arc A93 (24.2599, 0.0113) -> (23.9309, 3.9819) centre (23.918, 1.9819) ccw construction
  line L60 (23.9309, 3.9819) -> (23.7566, 3.9529) construction
  arc A94 (23.7566, 3.9529) -> (23.8566, 3.981) centre (23.2656, 5.8917) ccw construction
  arc A95 (23.8566, 3.981) -> (23.7529, 3.9751) centre (23.918, 1.9819) ccw construction
  line L61 (23.7529, 3.9751) -> (23.9272, 4.0042) construction
  arc A96 (23.9272, 4.0042) -> (22.9492, 7.8665) centre (23.2656, 5.8917) ccw construction
  line L62 (22.9492, 7.8665) -> (22.782, 7.8091) construction
  arc A97 (22.782, 7.8091) -> (22.876, 7.8533) centre (21.9786, 9.6407) ccw construction
  arc A98 (22.876, 7.8533) -> (22.7746, 7.8305) centre (23.2656, 5.8917) ccw construction
  line L63 (22.7746, 7.8305) -> (22.9418, 7.8879) construction
  arc A99 (22.9418, 7.8879) -> (21.3414, 11.5365) centre (21.9786, 9.6407) ccw construction
  line L64 (21.3414, 11.5365) -> (21.1859, 11.4524) construction
  arc A100 (21.1859, 11.4524) -> (21.2714, 11.5115) centre (20.092, 13.1268) ccw construction
  arc A101 (21.2714, 11.5115) -> (21.1752, 11.4722) centre (21.9786, 9.6407) ccw construction
  line L65 (21.1752, 11.4722) -> (21.3306, 11.5564) construction
  arc A102 (21.3306, 11.5564) -> (19.1515, 14.8918) centre (20.092, 13.1268) ccw construction
  line L66 (19.1515, 14.8918) -> (19.0119, 14.7833) construction
  arc A103 (19.0119, 14.7833) -> (19.0865, 14.8556) centre (17.6574, 16.2548) ccw construction
  arc A104 (19.0865, 14.8556) -> (18.9981, 14.8011) centre (20.092, 13.1268) ccw construction
  line L67 (18.9981, 14.8011) -> (19.1375, 14.9097) construction
  arc A105 (19.1375, 14.9097) -> (16.4392, 17.8409) centre (17.6574, 16.2548) ccw construction
  line L68 (16.4392, 17.8409) -> (16.3194, 17.7109) construction
  arc A106 (16.3194, 17.7109) -> (16.381, 17.7946) centre (14.7411, 18.9394) ccw construction
  arc A107 (16.381, 17.7946) -> (16.3028, 17.7262) centre (17.6574, 16.2548) ccw construction
  line L69 (16.3028, 17.7262) -> (16.4225, 17.8563) construction
  arc A108 (16.4225, 17.8563) -> (13.2784, 20.3034) centre (14.7411, 18.9394) ccw construction
  line L70 (13.2784, 20.3034) -> (13.1817, 20.1555) construction
  arc A109 (13.1817, 20.1555) -> (13.2287, 20.2481) centre (11.4227, 21.1074) ccw construction
  arc A110 (13.2287, 20.2481) -> (13.1628, 20.1678) centre (14.7411, 18.9394) ccw construction
  line L71 (13.1628, 20.1678) -> (13.2594, 20.3158) construction
  arc A111 (13.2594, 20.3158) -> (9.7555, 22.212) centre (11.4227, 21.1074) ccw construction
  line L72 (9.7555, 22.212) -> (9.6844, 22.0502) construction
  arc A112 (9.6844, 22.0502) -> (9.7156, 22.1493) centre (7.7928, 22.6996) ccw construction
  arc A113 (9.7156, 22.1493) -> (9.6638, 22.0593) centre (11.4227, 21.1074) ccw construction
  line L73 (9.6638, 22.0593) -> (9.7347, 22.2212) construction
  arc A114 (9.7347, 22.2212) -> (5.9665, 23.5148) centre (7.7928, 22.6996) ccw construction
  line L74 (5.9665, 23.5148) -> (5.923, 23.3435) construction
  arc A115 (5.923, 23.3435) -> (5.9374, 23.4464) centre (3.9503, 23.6727) ccw construction
  arc A116 (5.9374, 23.4464) -> (5.9012, 23.349) centre (7.7928, 22.6996) ccw construction
  line L75 (5.9012, 23.349) -> (5.9445, 23.5204) construction
  circle A117 centre (0, 0) radius 21 construction
  circle A118 centre (0, 0) radius 20 construction
  line L76 (16.8, 24.9006) -> (-16.8, 24.9006) construction
  line L77 (-16.8, 24.9006) -> (-16.8, 21.2406) construction
  line L78 (-16.8, 21.2406) -> (-21.2406, 16.8) construction
  line L79 (-21.2406, 16.8) -> (-24.9006, 16.8) construction
  line L80 (-24.9006, 16.8) -> (-24.9006, -16.8) construction
  line L81 (-24.9006, -16.8) -> (-21.2406, -16.8) construction
  line L82 (-21.2406, -16.8) -> (-16.8, -21.2406) construction
  line L83 (-16.8, -21.2406) -> (-16.8, -24.9006) construction
  line L84 (-16.8, -24.9006) -> (16.8, -24.9006) construction
  line L85 (16.8, -24.9006) -> (16.8, -21.2406) construction
  line L86 (16.8, -21.2406) -> (21.2406, -16.8) construction
  line L87 (21.2406, -16.8) -> (24.9006, -16.8) construction
  line L88 (24.9006, -16.8) -> (24.9006, 16.8) construction
  line L89 (24.9006, 16.8) -> (21.2406, 16.8) construction
  line L90 (21.2406, 16.8) -> (16.8, 21.2406) construction
  line L91 (16.8, 21.2406) -> (16.8, 24.9006) construction
  circle A119 centre (0, 0) radius 26 construction
  line L92 (-16.8, 24.9006) -> (16.8, 24.9006) projected
  line L93 (-9.0669, 24.9006) -> (-16.8, 24.9006)
  line L94 (-16.8, 24.9006) -> (-16.8, 21.2406)
  line L95 (-16.8, 21.2406) -> (-21.2406, 16.8)
  line L96 (-24.9006, 16.8) -> (-21.2406, 16.8) projected
  line L97 (-21.2406, 16.8) -> (-24.9006, 16.8)
  line L98 (-24.9006, 16.8) -> (-24.9006, 9.0669)
  line L99 (-24.9006, 16.8) -> (-24.9006, -16.8) projected
  arc A120 (-9.0669, 24.9006) -> (-24.9006, 9.0669) centre (0, 0) ccw
  circle A121 centre (17.7867, 14.1844) radius 1.25 projected
  circle A122 centre (22.1796, -5.0624) radius 1.25 projected
  circle A123 centre (9.8709, -20.497) radius 1.25 projected
  circle A124 centre (-9.8709, -20.497) radius 1.25 projected
  dimension "d20" = 0.5
extrude "Extrusion3" add sketch "Sketch5" along normal blind 4 contours L92 A120 L98 L96 L95 L94
pattern_circular "Circular Pattern1" count 4 over 360 about axis through (0, 0, -10) along (0, 0, 1) of "Extrusion3"
sketch "Sketch6" plane through (9.0669, 24.9006, 6.5) normal (0, 0, 1) x (1, 0, 0)
  line L0 (15.8337, -8.1006) -> (12.1737, -8.1006) construction
  line L1 (12.1737, -8.1006) -> (7.7331, -3.66) construction
  line L2 (7.7331, -3.66) -> (7.7331, 0) construction
  line L3 (7.7331, 0) -> (0, 0) construction
  arc A0 (15.8337, -15.8337) -> (0, 0) centre (-9.0669, -24.9006) ccw construction
  line L4 (15.8337, -15.8337) -> (15.8337, -8.1006) construction
  line L5 (-33.9675, -41.7006) -> (-30.3075, -41.7006) construction
  line L6 (-30.3075, -41.7006) -> (-25.8669, -46.1413) construction
  line L7 (-25.8669, -46.1413) -> (-25.8669, -49.8013) construction
  line L8 (-25.8669, -49.8013) -> (-18.1338, -49.8013) construction
  arc A1 (-33.9675, -33.9675) -> (-18.1338, -49.8013) centre (-9.0669, -24.9006) ccw construction
  line L9 (-33.9675, -33.9675) -> (-33.9675, -41.7006) construction
  circle A2 centre (-32.1675, -39.9006) radius 1.05
  circle A3 centre (14.0337, -9.9006) radius 1.05
  line L10 (-33.9675, -41.7006) -> (-32.1675, -41.7006) construction
  line L11 (-32.1675, -41.7006) -> (-32.1675, -39.9006) construction
  line L12 (-32.1675, -39.9006) -> (-33.9675, -39.9006) construction
  line L13 (-33.9675, -39.9006) -> (-33.9675, -41.7006) construction
  line L14 (7.7331, 0) -> (6.2331, 0) construction
  line L15 (7.7331, -1.5) -> (7.7331, 0) construction
  line L16 (12.1737, -8.1006) -> (15.8337, -8.1006) projected
  line L17 (14.0337, -8.1006) -> (14.0337, -9.9006) construction
  line L18 (14.0337, -9.9006) -> (15.8337, -9.9006) construction
  line L19 (15.8337, -8.1006) -> (15.8337, -41.7006) projected
  dimension "d26" = 2.1
  dimension "d27" = 2.1
  dimension "d28" = 1.8
  dimension "d29" = 1.8
  dimension "d34" = 1.8
  dimension "d35" = 1.8
extrude "Extrusion4" cut sketch "Sketch6" against normal through all
sketch "Skizze7" plane through (0, 0, 0) normal (0, 0, -1) x (-1, 0, 0)
  circle A0 centre (23.1006, -15) radius 1.05 construction
  circle A1 centre (-23.1006, 15) radius 1.05 construction
  circle A2 centre (0, 0) radius 20 construction
  line L0 (16.8, 24.9006) -> (-16.8, 24.9006) construction
  line L1 (-16.8, 24.9006) -> (-16.8, 21.2406) projected
  line L2 (-16.8, 21.2406) -> (-21.2406, 16.8) projected
  line L3 (-21.2406, 16.8) -> (-24.9006, 16.8) projected
  line L4 (-24.9006, 16.8) -> (-24.9006, -16.8) construction
  line L5 (-24.9006, -16.8) -> (-21.2406, -16.8) projected
  line L6 (-21.2406, -16.8) -> (-16.8, -21.2406) projected
  line L7 (-16.8, -21.2406) -> (-16.8, -24.9006) projected
  line L8 (-16.8, -24.9006) -> (16.8, -24.9006) construction
  line L9 (16.8, -24.9006) -> (16.8, -21.2406) projected
  line L10 (16.8, -21.2406) -> (21.2406, -16.8) projected
  line L11 (21.2406, -16.8) -> (24.9006, -16.8) projected
  line L12 (24.9006, -16.8) -> (24.9006, 16.8) construction
  line L13 (24.9006, 16.8) -> (21.2406, 16.8) projected
  line L14 (21.2406, 16.8) -> (16.8, 21.2406) projected
  line L15 (16.8, 21.2406) -> (16.8, 24.9006) projected
  line L16 (-17, 25.1006) -> (17, 25.1006) construction
  line L17 (17, 25.1006) -> (17, 21.3235)
  line L18 (17, 21.3235) -> (21.3235, 17)
  line L19 (21.3235, 17) -> (25.1006, 17)
  line L20 (25.1006, 17) -> (25.1006, -17) construction
  line L21 (25.1006, -17) -> (21.3235, -17)
  line L22 (21.3235, -17) -> (17, -21.3235)
  line L23 (17, -21.3235) -> (17, -25.1006)
  line L24 (17, -25.1006) -> (-17, -25.1006) construction
  line L25 (-17, -25.1006) -> (-17, -21.3235)
  line L26 (-17, -21.3235) -> (-21.3235, -17)
  line L27 (-21.3235, -17) -> (-25.1006, -17)
  line L28 (-25.1006, -17) -> (-25.1006, 17) construction
  line L29 (-25.1006, 17) -> (-21.3235, 17)
  line L30 (-21.3235, 17) -> (-17, 21.3235)
  line L31 (-17, 21.3235) -> (-17, 25.1006)
  line L32 (-21.2406, 16.8) -> (-24.9006, 16.8) projected
  line L33 (-24.9006, 16.8) -> (-24.9006, 17)
  line L34 (-16.8, 24.9006) -> (-17, 24.9006)
  line L35 (16.8, 21.2406) -> (16.8, 24.9006) projected
  line L36 (16.8, 24.9006) -> (17, 24.9006)
  line L37 (24.9006, 16.8) -> (24.9006, 17)
  line L38 (24.9006, -16.8) -> (24.9006, 16.8) projected
  line L39 (24.9006, -16.8) -> (24.9006, -17)
  line L40 (16.8, -24.9006) -> (17, -24.9006)
  line L41 (-16.8, -24.9006) -> (16.8, -24.9006) projected
  line L42 (-16.8, -24.9006) -> (-17, -24.9006)
  line L43 (-24.9006, -16.8) -> (-24.9006, -17)
  dimension "d36" = 0.2
extrude "IM_offset" add sketch "Skizze7" against normal up to surface (6.5 mm away)
properties part number "20_Cube_Insert_CirAp_Lid_v3"
